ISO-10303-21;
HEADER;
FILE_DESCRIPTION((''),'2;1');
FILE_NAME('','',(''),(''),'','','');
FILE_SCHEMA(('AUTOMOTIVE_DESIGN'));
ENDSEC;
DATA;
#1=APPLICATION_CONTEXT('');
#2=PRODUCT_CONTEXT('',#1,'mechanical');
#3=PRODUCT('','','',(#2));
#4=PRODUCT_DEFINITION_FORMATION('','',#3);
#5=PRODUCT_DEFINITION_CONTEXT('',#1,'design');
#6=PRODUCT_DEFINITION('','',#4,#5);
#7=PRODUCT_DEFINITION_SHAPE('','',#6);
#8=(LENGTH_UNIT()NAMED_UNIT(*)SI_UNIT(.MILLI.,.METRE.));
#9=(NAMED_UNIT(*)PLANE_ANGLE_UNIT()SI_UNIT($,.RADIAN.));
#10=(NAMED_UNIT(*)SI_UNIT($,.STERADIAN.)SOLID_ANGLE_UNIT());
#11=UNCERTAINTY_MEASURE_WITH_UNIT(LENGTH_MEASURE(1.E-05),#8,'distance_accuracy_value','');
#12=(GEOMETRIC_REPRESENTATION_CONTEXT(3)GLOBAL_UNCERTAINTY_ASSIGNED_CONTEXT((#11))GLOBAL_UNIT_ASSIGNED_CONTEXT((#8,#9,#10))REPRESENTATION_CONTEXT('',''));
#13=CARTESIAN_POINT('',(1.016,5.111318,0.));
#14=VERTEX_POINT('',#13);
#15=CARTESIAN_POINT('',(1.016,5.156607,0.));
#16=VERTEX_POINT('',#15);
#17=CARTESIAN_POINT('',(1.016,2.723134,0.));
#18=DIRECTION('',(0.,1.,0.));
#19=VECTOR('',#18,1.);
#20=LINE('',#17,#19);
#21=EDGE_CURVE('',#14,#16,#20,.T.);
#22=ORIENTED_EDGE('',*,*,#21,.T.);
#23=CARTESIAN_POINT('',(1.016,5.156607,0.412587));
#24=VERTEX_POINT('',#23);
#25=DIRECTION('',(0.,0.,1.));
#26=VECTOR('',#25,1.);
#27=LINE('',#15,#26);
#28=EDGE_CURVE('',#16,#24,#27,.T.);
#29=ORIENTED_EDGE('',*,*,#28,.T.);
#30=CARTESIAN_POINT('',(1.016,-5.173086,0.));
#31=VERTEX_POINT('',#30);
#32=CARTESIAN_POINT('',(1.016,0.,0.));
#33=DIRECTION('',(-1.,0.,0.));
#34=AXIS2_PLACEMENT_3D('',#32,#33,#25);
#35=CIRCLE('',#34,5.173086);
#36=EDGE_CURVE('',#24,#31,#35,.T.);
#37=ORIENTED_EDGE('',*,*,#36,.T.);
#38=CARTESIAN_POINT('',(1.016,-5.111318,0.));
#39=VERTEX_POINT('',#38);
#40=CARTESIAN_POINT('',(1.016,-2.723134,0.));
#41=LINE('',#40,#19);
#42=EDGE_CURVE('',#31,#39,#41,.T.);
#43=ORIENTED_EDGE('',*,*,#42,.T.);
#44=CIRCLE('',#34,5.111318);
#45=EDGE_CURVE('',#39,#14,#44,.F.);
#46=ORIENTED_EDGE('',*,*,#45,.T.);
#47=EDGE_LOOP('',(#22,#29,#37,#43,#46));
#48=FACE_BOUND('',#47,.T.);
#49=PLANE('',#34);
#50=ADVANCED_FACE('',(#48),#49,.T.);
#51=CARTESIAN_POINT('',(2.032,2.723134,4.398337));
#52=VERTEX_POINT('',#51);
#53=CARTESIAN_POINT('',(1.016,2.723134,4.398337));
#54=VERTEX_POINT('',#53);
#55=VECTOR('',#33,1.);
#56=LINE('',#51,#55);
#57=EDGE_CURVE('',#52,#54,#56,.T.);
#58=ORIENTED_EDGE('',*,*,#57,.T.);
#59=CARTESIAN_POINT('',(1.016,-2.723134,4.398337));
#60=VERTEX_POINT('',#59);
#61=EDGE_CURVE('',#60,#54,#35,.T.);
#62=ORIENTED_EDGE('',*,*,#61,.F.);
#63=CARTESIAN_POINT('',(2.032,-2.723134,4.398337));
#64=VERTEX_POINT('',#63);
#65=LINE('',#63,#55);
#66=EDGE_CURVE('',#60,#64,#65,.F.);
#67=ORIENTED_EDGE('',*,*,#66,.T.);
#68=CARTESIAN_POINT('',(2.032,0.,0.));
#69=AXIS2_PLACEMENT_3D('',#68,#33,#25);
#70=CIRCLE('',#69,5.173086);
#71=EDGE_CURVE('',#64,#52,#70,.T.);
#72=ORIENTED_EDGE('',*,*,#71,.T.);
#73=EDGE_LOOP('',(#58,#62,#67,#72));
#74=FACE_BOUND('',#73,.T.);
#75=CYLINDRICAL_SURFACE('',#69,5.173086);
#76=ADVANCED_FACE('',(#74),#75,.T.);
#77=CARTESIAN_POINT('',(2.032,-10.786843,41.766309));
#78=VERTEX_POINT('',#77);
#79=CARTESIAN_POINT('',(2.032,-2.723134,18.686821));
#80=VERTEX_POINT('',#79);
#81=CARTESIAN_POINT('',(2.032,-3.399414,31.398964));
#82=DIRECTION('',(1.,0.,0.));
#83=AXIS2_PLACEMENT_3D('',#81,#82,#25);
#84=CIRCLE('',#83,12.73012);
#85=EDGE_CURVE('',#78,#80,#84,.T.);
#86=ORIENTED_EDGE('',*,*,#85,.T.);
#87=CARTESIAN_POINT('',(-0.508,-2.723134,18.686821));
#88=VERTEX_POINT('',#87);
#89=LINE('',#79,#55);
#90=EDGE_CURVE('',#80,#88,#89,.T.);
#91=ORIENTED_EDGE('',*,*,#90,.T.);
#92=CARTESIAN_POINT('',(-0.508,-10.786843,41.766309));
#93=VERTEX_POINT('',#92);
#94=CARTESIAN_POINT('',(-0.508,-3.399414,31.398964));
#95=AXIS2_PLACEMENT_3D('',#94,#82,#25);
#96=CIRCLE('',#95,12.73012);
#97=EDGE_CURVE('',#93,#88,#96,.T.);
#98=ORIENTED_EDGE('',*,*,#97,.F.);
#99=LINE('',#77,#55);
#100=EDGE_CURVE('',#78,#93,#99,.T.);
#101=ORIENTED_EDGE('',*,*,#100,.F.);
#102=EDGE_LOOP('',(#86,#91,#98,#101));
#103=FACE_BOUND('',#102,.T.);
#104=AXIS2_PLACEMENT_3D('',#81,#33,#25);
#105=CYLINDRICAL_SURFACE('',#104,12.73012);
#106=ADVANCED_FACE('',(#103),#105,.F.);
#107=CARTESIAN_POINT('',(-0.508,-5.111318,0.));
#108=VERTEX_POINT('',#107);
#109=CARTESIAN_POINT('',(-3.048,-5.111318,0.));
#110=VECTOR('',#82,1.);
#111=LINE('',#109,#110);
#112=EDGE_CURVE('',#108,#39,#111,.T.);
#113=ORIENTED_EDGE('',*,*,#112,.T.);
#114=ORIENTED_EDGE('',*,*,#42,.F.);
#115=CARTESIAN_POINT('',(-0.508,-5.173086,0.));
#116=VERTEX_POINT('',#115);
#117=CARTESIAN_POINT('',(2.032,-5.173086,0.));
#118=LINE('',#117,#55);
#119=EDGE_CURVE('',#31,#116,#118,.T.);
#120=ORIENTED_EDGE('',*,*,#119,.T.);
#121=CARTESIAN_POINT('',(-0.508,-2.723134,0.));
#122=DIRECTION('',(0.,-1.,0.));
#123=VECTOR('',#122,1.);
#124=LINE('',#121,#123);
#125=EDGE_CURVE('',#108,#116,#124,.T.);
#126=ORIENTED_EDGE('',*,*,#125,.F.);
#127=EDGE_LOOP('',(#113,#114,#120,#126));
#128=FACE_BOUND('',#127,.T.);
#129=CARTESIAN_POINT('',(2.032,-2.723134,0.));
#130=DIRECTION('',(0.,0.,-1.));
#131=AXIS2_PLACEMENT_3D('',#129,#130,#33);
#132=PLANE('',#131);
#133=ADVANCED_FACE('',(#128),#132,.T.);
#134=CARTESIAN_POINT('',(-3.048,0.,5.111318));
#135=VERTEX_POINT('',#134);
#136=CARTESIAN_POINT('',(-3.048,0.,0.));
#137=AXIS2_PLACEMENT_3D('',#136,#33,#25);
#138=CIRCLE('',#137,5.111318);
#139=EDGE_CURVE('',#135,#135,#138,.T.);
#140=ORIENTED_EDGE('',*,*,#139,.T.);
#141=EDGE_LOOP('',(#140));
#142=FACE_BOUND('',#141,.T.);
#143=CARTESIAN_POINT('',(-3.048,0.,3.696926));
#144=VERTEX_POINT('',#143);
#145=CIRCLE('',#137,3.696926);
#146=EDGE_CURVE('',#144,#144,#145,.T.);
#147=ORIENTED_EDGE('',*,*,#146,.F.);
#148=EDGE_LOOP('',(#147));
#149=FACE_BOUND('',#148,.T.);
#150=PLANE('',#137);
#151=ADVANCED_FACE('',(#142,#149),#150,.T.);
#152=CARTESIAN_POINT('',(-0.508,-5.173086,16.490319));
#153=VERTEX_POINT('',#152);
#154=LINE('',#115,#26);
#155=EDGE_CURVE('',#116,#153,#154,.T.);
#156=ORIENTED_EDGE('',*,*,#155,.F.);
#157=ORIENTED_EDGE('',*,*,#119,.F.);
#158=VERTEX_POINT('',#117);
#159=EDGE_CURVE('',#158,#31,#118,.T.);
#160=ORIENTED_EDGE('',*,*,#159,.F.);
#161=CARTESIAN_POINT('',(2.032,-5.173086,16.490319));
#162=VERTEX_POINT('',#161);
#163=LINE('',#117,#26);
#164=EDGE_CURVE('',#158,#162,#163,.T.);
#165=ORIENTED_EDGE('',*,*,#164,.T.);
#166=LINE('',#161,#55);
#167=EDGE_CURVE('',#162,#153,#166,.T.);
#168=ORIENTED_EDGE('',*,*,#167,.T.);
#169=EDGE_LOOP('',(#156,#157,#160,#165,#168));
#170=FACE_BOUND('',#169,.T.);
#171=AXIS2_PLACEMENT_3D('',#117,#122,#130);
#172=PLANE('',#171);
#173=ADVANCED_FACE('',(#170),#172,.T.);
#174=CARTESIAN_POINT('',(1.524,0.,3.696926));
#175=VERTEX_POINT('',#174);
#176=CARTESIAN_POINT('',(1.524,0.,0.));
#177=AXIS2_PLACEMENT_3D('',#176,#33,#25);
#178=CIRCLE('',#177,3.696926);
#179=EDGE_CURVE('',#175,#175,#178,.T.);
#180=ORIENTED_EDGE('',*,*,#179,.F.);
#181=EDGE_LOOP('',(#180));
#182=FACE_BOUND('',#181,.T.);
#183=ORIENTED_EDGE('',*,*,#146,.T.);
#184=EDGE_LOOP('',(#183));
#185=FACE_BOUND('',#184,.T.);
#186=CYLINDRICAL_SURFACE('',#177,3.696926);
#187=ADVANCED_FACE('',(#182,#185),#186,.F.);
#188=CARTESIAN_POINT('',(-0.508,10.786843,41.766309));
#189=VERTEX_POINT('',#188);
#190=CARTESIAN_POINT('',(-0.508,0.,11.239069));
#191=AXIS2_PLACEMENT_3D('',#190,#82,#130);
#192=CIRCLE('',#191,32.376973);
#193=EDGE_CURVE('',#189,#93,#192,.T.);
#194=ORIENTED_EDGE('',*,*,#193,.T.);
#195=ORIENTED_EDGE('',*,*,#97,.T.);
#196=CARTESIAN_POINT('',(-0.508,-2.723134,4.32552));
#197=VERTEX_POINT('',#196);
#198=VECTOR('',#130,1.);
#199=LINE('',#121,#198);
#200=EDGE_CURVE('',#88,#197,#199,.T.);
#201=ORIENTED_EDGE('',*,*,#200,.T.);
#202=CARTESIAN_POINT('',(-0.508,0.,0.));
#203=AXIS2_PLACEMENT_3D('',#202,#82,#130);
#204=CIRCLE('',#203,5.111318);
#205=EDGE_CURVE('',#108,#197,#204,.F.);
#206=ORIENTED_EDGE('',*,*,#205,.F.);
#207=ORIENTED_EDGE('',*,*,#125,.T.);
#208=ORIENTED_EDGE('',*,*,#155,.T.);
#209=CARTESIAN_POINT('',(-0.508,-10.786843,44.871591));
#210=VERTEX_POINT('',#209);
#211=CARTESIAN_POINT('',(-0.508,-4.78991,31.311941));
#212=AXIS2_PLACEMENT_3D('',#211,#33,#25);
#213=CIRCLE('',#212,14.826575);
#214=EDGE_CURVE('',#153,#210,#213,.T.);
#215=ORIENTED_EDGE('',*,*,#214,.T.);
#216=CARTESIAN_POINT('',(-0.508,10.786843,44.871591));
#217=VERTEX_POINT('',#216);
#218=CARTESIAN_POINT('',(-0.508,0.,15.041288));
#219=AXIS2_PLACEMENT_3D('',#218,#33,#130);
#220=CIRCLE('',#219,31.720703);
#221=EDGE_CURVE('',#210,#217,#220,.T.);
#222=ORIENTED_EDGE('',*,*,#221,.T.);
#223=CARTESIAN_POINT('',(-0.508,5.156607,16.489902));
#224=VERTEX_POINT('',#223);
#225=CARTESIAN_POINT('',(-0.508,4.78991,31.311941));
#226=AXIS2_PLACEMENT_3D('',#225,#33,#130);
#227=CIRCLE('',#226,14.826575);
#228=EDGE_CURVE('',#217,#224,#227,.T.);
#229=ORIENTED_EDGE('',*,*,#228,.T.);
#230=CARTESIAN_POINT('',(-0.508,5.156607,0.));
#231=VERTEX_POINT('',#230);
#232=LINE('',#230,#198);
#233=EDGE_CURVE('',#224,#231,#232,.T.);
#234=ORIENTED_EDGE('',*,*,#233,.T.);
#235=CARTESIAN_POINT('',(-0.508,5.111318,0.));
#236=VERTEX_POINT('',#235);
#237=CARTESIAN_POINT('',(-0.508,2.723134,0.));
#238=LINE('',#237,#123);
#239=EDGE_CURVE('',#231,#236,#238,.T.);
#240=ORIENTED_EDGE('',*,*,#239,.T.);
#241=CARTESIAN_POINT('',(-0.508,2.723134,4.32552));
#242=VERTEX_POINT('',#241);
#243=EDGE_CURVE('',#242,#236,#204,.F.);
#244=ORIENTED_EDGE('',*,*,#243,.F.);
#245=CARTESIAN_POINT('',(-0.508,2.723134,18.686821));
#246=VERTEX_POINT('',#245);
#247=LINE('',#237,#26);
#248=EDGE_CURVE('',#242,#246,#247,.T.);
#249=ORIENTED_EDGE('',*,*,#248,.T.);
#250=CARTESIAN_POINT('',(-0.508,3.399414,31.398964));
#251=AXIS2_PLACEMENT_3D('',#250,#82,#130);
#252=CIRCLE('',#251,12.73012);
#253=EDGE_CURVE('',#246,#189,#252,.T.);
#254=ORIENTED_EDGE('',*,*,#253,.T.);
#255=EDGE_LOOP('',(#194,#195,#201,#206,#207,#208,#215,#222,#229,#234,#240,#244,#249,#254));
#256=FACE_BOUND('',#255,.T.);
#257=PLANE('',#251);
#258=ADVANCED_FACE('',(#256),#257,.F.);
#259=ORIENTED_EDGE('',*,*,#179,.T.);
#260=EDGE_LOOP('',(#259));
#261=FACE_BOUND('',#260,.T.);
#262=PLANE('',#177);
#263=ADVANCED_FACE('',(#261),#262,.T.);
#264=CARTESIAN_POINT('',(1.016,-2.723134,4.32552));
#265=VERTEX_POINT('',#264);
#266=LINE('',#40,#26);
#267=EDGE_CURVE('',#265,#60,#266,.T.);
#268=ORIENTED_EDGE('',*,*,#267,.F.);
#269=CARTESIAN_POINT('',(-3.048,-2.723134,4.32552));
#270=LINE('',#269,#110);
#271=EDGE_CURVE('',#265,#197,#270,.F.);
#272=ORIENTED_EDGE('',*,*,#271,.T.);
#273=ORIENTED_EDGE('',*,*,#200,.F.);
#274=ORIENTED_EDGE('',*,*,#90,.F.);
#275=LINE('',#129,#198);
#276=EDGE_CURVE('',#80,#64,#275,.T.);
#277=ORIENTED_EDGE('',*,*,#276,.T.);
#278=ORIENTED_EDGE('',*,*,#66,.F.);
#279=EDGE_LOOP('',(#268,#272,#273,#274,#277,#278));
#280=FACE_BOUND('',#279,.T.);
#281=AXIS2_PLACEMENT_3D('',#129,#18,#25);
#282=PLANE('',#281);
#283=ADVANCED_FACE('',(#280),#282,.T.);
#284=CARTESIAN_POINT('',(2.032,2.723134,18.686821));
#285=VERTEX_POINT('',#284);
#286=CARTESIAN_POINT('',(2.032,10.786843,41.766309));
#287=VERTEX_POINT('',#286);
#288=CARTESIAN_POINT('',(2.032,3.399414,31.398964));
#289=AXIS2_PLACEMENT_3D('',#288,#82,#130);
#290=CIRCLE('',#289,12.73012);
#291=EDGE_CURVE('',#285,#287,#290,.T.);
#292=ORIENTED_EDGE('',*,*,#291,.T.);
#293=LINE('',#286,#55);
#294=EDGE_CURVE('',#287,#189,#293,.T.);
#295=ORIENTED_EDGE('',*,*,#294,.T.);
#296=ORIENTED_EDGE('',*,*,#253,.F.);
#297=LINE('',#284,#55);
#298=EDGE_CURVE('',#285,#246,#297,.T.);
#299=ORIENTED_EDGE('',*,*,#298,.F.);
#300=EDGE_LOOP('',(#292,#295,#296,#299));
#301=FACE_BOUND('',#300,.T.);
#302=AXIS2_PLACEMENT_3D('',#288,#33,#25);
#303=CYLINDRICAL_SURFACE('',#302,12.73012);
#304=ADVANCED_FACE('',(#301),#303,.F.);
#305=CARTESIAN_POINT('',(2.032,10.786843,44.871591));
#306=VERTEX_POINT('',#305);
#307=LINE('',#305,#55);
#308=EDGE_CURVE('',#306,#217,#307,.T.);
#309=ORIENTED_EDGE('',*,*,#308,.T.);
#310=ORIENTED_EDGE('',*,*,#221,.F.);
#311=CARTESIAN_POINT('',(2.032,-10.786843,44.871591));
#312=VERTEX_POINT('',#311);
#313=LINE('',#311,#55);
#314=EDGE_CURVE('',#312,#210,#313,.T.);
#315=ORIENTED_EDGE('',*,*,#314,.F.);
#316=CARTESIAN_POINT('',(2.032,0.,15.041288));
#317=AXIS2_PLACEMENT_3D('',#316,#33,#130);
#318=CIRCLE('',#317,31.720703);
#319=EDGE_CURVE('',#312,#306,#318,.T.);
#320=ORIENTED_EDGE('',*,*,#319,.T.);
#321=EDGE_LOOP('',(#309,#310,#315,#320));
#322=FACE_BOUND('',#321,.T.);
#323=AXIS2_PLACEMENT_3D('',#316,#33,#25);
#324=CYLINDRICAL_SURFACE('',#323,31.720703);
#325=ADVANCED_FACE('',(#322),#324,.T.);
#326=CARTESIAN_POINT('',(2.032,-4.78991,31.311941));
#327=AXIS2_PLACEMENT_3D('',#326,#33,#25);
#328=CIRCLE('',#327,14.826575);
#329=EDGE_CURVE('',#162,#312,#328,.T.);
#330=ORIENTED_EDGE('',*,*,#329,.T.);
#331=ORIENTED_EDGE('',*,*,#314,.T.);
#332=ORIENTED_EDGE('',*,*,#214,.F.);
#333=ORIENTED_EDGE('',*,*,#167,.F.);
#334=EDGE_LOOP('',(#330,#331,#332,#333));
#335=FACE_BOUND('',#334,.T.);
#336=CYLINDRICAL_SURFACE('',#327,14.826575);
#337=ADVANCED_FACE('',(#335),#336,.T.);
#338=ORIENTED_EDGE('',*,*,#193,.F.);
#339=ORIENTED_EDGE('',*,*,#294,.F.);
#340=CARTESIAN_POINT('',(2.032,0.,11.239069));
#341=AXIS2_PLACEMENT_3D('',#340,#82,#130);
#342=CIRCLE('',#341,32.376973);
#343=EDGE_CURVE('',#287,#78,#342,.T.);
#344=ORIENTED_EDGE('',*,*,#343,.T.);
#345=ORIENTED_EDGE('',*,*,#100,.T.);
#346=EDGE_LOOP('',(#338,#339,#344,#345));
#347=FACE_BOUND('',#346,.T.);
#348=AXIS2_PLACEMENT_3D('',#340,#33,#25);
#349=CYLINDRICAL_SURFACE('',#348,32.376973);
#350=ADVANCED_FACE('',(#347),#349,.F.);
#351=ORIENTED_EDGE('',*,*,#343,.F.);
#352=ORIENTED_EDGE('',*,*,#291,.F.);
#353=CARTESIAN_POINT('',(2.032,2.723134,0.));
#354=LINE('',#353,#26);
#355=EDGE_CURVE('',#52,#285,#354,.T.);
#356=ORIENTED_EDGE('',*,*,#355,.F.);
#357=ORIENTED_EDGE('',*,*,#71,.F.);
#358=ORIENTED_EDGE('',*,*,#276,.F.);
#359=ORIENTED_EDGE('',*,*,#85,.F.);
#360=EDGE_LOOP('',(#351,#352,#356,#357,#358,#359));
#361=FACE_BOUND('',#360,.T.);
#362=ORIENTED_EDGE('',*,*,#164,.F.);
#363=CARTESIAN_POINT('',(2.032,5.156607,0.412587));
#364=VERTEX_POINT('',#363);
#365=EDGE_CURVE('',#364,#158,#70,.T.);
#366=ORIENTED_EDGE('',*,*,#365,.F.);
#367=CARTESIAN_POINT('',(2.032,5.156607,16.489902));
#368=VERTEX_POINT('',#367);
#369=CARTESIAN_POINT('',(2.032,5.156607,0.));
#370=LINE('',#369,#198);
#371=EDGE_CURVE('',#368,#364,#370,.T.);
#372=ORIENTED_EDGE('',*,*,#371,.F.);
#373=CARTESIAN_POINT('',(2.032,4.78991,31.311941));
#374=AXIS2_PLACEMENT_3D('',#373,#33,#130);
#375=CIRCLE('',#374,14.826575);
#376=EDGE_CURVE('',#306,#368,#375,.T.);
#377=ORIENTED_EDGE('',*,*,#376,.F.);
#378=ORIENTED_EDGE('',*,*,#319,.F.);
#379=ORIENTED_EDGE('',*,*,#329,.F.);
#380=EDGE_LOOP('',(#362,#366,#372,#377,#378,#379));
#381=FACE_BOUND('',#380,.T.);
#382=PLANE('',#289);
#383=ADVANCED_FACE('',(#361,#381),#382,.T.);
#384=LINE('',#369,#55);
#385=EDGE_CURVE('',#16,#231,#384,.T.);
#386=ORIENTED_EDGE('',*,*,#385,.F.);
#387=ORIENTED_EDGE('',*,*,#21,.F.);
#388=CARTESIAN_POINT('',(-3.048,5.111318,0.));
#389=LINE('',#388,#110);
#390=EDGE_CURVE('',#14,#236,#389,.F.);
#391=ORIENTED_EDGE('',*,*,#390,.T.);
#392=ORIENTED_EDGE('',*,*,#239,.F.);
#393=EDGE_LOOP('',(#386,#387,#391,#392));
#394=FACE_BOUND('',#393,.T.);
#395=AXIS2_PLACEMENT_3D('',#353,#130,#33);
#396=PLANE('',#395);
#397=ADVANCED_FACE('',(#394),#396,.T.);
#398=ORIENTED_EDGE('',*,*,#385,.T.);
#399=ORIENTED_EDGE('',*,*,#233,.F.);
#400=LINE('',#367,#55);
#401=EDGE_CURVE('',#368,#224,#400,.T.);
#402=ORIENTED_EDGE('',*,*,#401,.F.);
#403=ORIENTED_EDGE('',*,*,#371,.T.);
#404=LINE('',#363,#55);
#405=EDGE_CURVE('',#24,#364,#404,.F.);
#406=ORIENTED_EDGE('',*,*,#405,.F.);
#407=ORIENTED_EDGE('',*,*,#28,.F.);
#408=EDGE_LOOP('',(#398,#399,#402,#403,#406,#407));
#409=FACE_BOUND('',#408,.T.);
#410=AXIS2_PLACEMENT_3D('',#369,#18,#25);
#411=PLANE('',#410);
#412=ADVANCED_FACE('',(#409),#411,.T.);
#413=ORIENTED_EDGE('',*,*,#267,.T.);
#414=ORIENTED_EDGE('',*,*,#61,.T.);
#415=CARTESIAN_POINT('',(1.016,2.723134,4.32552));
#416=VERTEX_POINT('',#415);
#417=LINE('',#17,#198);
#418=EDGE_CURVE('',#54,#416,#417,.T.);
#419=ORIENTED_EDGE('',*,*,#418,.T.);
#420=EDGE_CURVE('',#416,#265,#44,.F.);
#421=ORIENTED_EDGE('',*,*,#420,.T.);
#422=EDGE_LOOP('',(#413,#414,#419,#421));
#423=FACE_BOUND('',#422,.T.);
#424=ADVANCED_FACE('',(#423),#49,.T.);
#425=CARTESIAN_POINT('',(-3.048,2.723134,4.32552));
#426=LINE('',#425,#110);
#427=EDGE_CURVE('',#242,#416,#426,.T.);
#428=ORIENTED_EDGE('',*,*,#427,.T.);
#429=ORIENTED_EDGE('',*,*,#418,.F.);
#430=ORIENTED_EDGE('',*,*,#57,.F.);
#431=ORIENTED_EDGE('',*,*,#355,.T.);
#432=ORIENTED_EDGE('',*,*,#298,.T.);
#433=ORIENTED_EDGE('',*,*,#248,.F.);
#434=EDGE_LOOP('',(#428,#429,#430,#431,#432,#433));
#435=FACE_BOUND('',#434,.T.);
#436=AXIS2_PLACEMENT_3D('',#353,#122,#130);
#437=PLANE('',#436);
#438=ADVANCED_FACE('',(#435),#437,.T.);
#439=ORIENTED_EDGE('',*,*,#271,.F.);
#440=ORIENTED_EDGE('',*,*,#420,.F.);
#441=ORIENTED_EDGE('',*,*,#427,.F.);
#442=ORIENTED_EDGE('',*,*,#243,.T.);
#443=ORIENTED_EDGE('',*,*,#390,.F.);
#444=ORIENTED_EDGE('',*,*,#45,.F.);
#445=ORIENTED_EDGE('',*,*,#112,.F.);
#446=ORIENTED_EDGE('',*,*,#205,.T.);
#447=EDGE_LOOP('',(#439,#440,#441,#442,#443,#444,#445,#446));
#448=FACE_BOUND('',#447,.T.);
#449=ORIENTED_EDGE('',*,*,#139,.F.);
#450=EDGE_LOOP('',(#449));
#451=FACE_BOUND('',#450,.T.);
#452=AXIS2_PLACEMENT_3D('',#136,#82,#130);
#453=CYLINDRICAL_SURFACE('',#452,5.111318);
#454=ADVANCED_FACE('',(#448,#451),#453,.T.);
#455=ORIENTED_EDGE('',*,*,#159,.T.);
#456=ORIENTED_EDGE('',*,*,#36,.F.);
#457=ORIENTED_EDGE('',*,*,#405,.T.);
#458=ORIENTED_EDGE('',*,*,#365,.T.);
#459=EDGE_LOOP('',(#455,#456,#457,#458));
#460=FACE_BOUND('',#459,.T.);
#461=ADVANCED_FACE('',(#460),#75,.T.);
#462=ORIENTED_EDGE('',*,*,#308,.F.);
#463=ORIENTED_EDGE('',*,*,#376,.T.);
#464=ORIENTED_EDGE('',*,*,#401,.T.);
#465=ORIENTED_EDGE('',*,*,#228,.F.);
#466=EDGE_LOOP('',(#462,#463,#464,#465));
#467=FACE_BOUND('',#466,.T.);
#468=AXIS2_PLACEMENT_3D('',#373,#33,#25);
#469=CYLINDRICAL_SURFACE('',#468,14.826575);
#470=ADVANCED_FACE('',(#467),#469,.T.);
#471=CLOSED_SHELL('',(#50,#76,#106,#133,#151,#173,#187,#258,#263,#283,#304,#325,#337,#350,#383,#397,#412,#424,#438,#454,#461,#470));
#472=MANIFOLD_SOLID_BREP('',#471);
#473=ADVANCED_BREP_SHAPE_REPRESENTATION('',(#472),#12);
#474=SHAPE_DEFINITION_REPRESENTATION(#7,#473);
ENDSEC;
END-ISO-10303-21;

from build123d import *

# Parameters (mm, degrees)
BOSS_EXTRUDE6_DEPTH         = 1.524
BOSS_EXTRUDE6_DEPTH_BACK    = 3.048
SKETCH5_R                   = 0.127
BOSS_EXTRUDE6_2_DEPTH       = 1.524
BOSS_EXTRUDE6_2_DEPTH_BACK  = 3.048
BOSS_EXTRUDE6_3_DEPTH       = 1.524
BOSS_EXTRUDE6_3_DEPTH_BACK  = 3.048
BOSS_EXTRUDE6_4_DEPTH       = 1.524
BOSS_EXTRUDE6_4_DEPTH_BACK  = 3.048
BOSS_EXTRUDE6_5_DEPTH       = 1.524
BOSS_EXTRUDE6_5_DEPTH_BACK  = 3.048
BOSS_EXTRUDE6_6_DEPTH       = 1.524
BOSS_EXTRUDE6_6_DEPTH_BACK  = 3.048
BOSS_EXTRUDE6_7_DEPTH       = 1.524
BOSS_EXTRUDE6_7_DEPTH_BACK  = 3.048
BOSS_EXTRUDE6_8_DEPTH       = 1.524
BOSS_EXTRUDE6_8_DEPTH_BACK  = 3.048
BOSS_EXTRUDE6_9_DEPTH       = 1.524
BOSS_EXTRUDE6_9_DEPTH_BACK  = 3.048
BOSS_EXTRUDE6_10_DEPTH      = 1.524
BOSS_EXTRUDE6_10_DEPTH_BACK = 3.048
BOSS_EXTRUDE6_11_DEPTH      = 1.524
BOSS_EXTRUDE6_11_DEPTH_BACK = 3.048
BOSS_EXTRUDE6_12_DEPTH      = 1.524
BOSS_EXTRUDE6_12_DEPTH_BACK = 3.048
BOSS_EXTRUDE6_13_DEPTH      = 1.524
BOSS_EXTRUDE6_13_DEPTH_BACK = 3.048
BOSS_EXTRUDE6_14_DEPTH      = 1.524
BOSS_EXTRUDE6_14_DEPTH_BACK = 3.048
BOSS_EXTRUDE6_15_DEPTH      = 1.524
BOSS_EXTRUDE6_15_DEPTH_BACK = 3.048
BOSS_EXTRUDE6_16_DEPTH      = 1.524
BOSS_EXTRUDE6_16_DEPTH_BACK = 3.048
BOSS_EXTRUDE6_17_DEPTH      = 1.524
BOSS_EXTRUDE6_17_DEPTH_BACK = 3.048
BOSS_EXTRUDE6_18_DEPTH      = 1.524
BOSS_EXTRUDE6_18_DEPTH_BACK = 3.048
BOSS_EXTRUDE6_19_DEPTH      = 1.524
BOSS_EXTRUDE6_19_DEPTH_BACK = 3.048
BOSS_EXTRUDE6_20_DEPTH      = 1.524
BOSS_EXTRUDE6_20_DEPTH_BACK = 3.048
BOSS_EXTRUDE6_21_DEPTH      = 1.524
BOSS_EXTRUDE6_21_DEPTH_BACK = 3.048
BOSS_EXTRUDE6_22_DEPTH      = 1.524
BOSS_EXTRUDE6_22_DEPTH_BACK = 3.048
BOSS_EXTRUDE6_23_DEPTH      = 1.524
BOSS_EXTRUDE6_23_DEPTH_BACK = 3.048
BOSS_EXTRUDE6_24_DEPTH      = 1.524
BOSS_EXTRUDE6_24_DEPTH_BACK = 3.048
BOSS_EXTRUDE6_25_DEPTH      = 1.524
BOSS_EXTRUDE6_25_DEPTH_BACK = 3.048
BOSS_EXTRUDE6_26_DEPTH      = 1.524
BOSS_EXTRUDE6_26_DEPTH_BACK = 3.048
BOSS_EXTRUDE6_27_DEPTH      = 1.524
BOSS_EXTRUDE6_27_DEPTH_BACK = 3.048
BOSS_EXTRUDE6_28_DEPTH      = 1.524
BOSS_EXTRUDE6_28_DEPTH_BACK = 3.048
BOSS_EXTRUDE6_29_DEPTH      = 1.524
BOSS_EXTRUDE6_29_DEPTH_BACK = 3.048
BOSS_EXTRUDE6_30_DEPTH      = 1.524
BOSS_EXTRUDE6_30_DEPTH_BACK = 3.048
BOSS_EXTRUDE6_31_DEPTH      = 1.524
BOSS_EXTRUDE6_31_DEPTH_BACK = 3.048
BOSS_EXTRUDE6_32_DEPTH      = 1.524
BOSS_EXTRUDE6_32_DEPTH_BACK = 3.048
BOSS_EXTRUDE6_33_DEPTH      = 1.524
BOSS_EXTRUDE6_33_DEPTH_BACK = 3.048
BOSS_EXTRUDE6_34_DEPTH      = 1.524
BOSS_EXTRUDE6_34_DEPTH_BACK = 3.048
BOSS_EXTRUDE6_35_DEPTH      = 1.524
BOSS_EXTRUDE6_35_DEPTH_BACK = 3.048
SKETCH10_R                  = 0.7239
BOSS_EXTRUDE13_DEPTH        = 4.572
BOSS_EXTRUDE9_DEPTH         = 1.524
BOSS_EXTRUDE9_DEPTH_BACK    = 1.016
SKETCH9_R                   = 5.173086185
BOSS_EXTRUDE10_DEPTH        = 1.016
SKETCH12_R                  = 5.111318418
SKETCH12_R_2                = 2.242435501
BOSS_EXTRUDE15_DEPTH        = 4.064
SKETCH13_R                  = 3.696925513
CUT_EXTRUDE1_DEPTH          = 4.572


with BuildPart() as part:
    # Sketch5 → Boss-Extrude6 (new, two sides: drawn at the far end of the back side and taken through both)
    with BuildSketch(Plane(origin=(0, 0, 0), x_dir=(0, 0, -1), z_dir=(1, 0, 0)).offset(-BOSS_EXTRUDE6_DEPTH_BACK)):
        with Locations((0.334697735, 2.224969992)):
            Circle(SKETCH5_R)
    extrude(amount=BOSS_EXTRUDE6_DEPTH + BOSS_EXTRUDE6_DEPTH_BACK)


with BuildPart() as body_2:
    # Sketch5 → Boss-Extrude6 2 (new, two sides: drawn at the far end of the back side and taken through both)
    with BuildSketch(Plane(origin=(0, 0, 0), x_dir=(0, 0, -1), z_dir=(1, 0, 0)).offset(-BOSS_EXTRUDE6_2_DEPTH_BACK)):
        with Locations((0.726602738, 2.129451221)):
            Circle(SKETCH5_R)
    extrude(amount=BOSS_EXTRUDE6_2_DEPTH + BOSS_EXTRUDE6_2_DEPTH_BACK)


with BuildPart() as body_3:
    # Sketch5 → Boss-Extrude6 3 (new, two sides: drawn at the far end of the back side and taken through both)
    with BuildSketch(Plane(origin=(0, 0, 0), x_dir=(0, 0, -1), z_dir=(1, 0, 0)).offset(-BOSS_EXTRUDE6_3_DEPTH_BACK)):
        with Locations((1.09515413, 1.965490135)):
            Circle(SKETCH5_R)
    extrude(amount=BOSS_EXTRUDE6_3_DEPTH + BOSS_EXTRUDE6_3_DEPTH_BACK)


with BuildPart() as body_4:
    # Sketch5 → Boss-Extrude6 4 (new, two sides: drawn at the far end of the back side and taken through both)
    with BuildSketch(Plane(origin=(0, 0, 0), x_dir=(0, 0, -1), z_dir=(1, 0, 0)).offset(-BOSS_EXTRUDE6_4_DEPTH_BACK)):
        with Locations((1.428506368, 1.738356579)):
            Circle(SKETCH5_R)
    extrude(amount=BOSS_EXTRUDE6_4_DEPTH + BOSS_EXTRUDE6_4_DEPTH_BACK)


with BuildPart() as body_5:
    # Sketch5 → Boss-Extrude6 5 (new, two sides: drawn at the far end of the back side and taken through both)
    with BuildSketch(Plane(origin=(0, 0, 0), x_dir=(0, 0, -1), z_dir=(1, 0, 0)).offset(-BOSS_EXTRUDE6_5_DEPTH_BACK)):
        with Locations((1.715945236, 1.455350812)):
            Circle(SKETCH5_R)
    extrude(amount=BOSS_EXTRUDE6_5_DEPTH + BOSS_EXTRUDE6_5_DEPTH_BACK)


with BuildPart() as body_6:
    # Sketch5 → Boss-Extrude6 6 (new, two sides: drawn at the far end of the back side and taken through both)
    with BuildSketch(Plane(origin=(0, 0, 0), x_dir=(0, 0, -1), z_dir=(1, 0, 0)).offset(-BOSS_EXTRUDE6_6_DEPTH_BACK)):
        with Locations((1.948232212, 1.125568873)):
            Circle(SKETCH5_R)
    extrude(amount=BOSS_EXTRUDE6_6_DEPTH + BOSS_EXTRUDE6_6_DEPTH_BACK)


with BuildPart() as body_7:
    # Sketch5 → Boss-Extrude6 7 (new, two sides: drawn at the far end of the back side and taken through both)
    with BuildSketch(Plane(origin=(0, 0, 0), x_dir=(0, 0, -1), z_dir=(1, 0, 0)).offset(-BOSS_EXTRUDE6_7_DEPTH_BACK)):
        with Locations((2.117901402, 0.759610224)):
            Circle(SKETCH5_R)
    extrude(amount=BOSS_EXTRUDE6_7_DEPTH + BOSS_EXTRUDE6_7_DEPTH_BACK)


with BuildPart() as body_8:
    # Sketch5 → Boss-Extrude6 8 (new, two sides: drawn at the far end of the back side and taken through both)
    with BuildSketch(Plane(origin=(0, 0, 0), x_dir=(0, 0, -1), z_dir=(1, 0, 0)).offset(-BOSS_EXTRUDE6_8_DEPTH_BACK)):
        with Locations((2.219499498, 0.369237078)):
            Circle(SKETCH5_R)
    extrude(amount=BOSS_EXTRUDE6_8_DEPTH + BOSS_EXTRUDE6_8_DEPTH_BACK)


with BuildPart() as body_9:
    # Sketch5 → Boss-Extrude6 9 (new, two sides: drawn at the far end of the back side and taken through both)
    with BuildSketch(Plane(origin=(0, 0, 0), x_dir=(0, 0, -1), z_dir=(1, 0, 0)).offset(-BOSS_EXTRUDE6_9_DEPTH_BACK)):
        with Locations((2.249761054, -0.033003652)):
            Circle(SKETCH5_R)
    extrude(amount=BOSS_EXTRUDE6_9_DEPTH + BOSS_EXTRUDE6_9_DEPTH_BACK)


with BuildPart() as body_10:
    # Sketch5 → Boss-Extrude6 10 (new, two sides: drawn at the far end of the back side and taken through both)
    with BuildSketch(Plane(origin=(0, 0, 0), x_dir=(0, 0, -1), z_dir=(1, 0, 0)).offset(-BOSS_EXTRUDE6_10_DEPTH_BACK)):
        with Locations((2.207713438, -0.434183618)):
            Circle(SKETCH5_R)
    extrude(amount=BOSS_EXTRUDE6_10_DEPTH + BOSS_EXTRUDE6_10_DEPTH_BACK)


with BuildPart() as body_11:
    # Sketch5 → Boss-Extrude6 11 (new, two sides: drawn at the far end of the back side and taken through both)
    with BuildSketch(Plane(origin=(0, 0, 0), x_dir=(0, 0, -1), z_dir=(1, 0, 0)).offset(-BOSS_EXTRUDE6_11_DEPTH_BACK)):
        with Locations((2.094708097, -0.821408565)):
            Circle(SKETCH5_R)
    extrude(amount=BOSS_EXTRUDE6_11_DEPTH + BOSS_EXTRUDE6_11_DEPTH_BACK)


with BuildPart() as body_12:
    # Sketch5 → Boss-Extrude6 12 (new, two sides: drawn at the far end of the back side and taken through both)
    with BuildSketch(Plane(origin=(0, 0, 0), x_dir=(0, 0, -1), z_dir=(1, 0, 0)).offset(-BOSS_EXTRUDE6_12_DEPTH_BACK)):
        with Locations((1.914377113, -1.182232764)):
            Circle(SKETCH5_R)
    extrude(amount=BOSS_EXTRUDE6_12_DEPTH + BOSS_EXTRUDE6_12_DEPTH_BACK)


with BuildPart() as body_13:
    # Sketch5 → Boss-Extrude6 13 (new, two sides: drawn at the far end of the back side and taken through both)
    with BuildSketch(Plane(origin=(0, 0, 0), x_dir=(0, 0, -1), z_dir=(1, 0, 0)).offset(-BOSS_EXTRUDE6_13_DEPTH_BACK)):
        with Locations((1.672516474, -1.50505903)):
            Circle(SKETCH5_R)
    extrude(amount=BOSS_EXTRUDE6_13_DEPTH + BOSS_EXTRUDE6_13_DEPTH_BACK)


with BuildPart() as body_14:
    # Sketch5 → Boss-Extrude6 14 (new, two sides: drawn at the far end of the back side and taken through both)
    with BuildSketch(Plane(origin=(0, 0, 0), x_dir=(0, 0, -1), z_dir=(1, 0, 0)).offset(-BOSS_EXTRUDE6_14_DEPTH_BACK)):
        with Locations((1.376899779, -1.779511461)):
            Circle(SKETCH5_R)
    extrude(amount=BOSS_EXTRUDE6_14_DEPTH + BOSS_EXTRUDE6_14_DEPTH_BACK)


with BuildPart() as body_15:
    # Sketch5 → Boss-Extrude6 15 (new, two sides: drawn at the far end of the back side and taken through both)
    with BuildSketch(Plane(origin=(0, 0, 0), x_dir=(0, 0, -1), z_dir=(1, 0, 0)).offset(-BOSS_EXTRUDE6_15_DEPTH_BACK)):
        with Locations((1.037028393, -1.996768928)):
            Circle(SKETCH5_R)
    extrude(amount=BOSS_EXTRUDE6_15_DEPTH + BOSS_EXTRUDE6_15_DEPTH_BACK)


with BuildPart() as body_16:
    # Sketch5 → Boss-Extrude6 16 (new, two sides: drawn at the far end of the back side and taken through both)
    with BuildSketch(Plane(origin=(0, 0, 0), x_dir=(0, 0, -1), z_dir=(1, 0, 0)).offset(-BOSS_EXTRUDE6_16_DEPTH_BACK)):
        with Locations((0.66382606, -2.1498486)):
            Circle(SKETCH5_R)
    extrude(amount=BOSS_EXTRUDE6_16_DEPTH + BOSS_EXTRUDE6_16_DEPTH_BACK)


with BuildPart() as body_17:
    # Sketch5 → Boss-Extrude6 17 (new, two sides: drawn at the far end of the back side and taken through both)
    with BuildSketch(Plane(origin=(0, 0, 0), x_dir=(0, 0, -1), z_dir=(1, 0, 0)).offset(-BOSS_EXTRUDE6_17_DEPTH_BACK)):
        with Locations((0.269287812, -2.233830368)):
            Circle(SKETCH5_R)
    extrude(amount=BOSS_EXTRUDE6_17_DEPTH + BOSS_EXTRUDE6_17_DEPTH_BACK)


with BuildPart() as body_18:
    # Sketch5 → Boss-Extrude6 18 (new, two sides: drawn at the far end of the back side and taken through both)
    with BuildSketch(Plane(origin=(0, 0, 0), x_dir=(0, 0, -1), z_dir=(1, 0, 0)).offset(-BOSS_EXTRUDE6_18_DEPTH_BACK)):
        with Locations((-0.133905568, -2.246014991)):
            Circle(SKETCH5_R)
    extrude(amount=BOSS_EXTRUDE6_18_DEPTH + BOSS_EXTRUDE6_18_DEPTH_BACK)


with BuildPart() as body_19:
    # Sketch5 → Boss-Extrude6 19 (new, two sides: drawn at the far end of the back side and taken through both)
    with BuildSketch(Plane(origin=(0, 0, 0), x_dir=(0, 0, -1), z_dir=(1, 0, 0)).offset(-BOSS_EXTRUDE6_19_DEPTH_BACK)):
        with Locations((-0.532795113, -2.186010843)):
            Circle(SKETCH5_R)
    extrude(amount=BOSS_EXTRUDE6_19_DEPTH + BOSS_EXTRUDE6_19_DEPTH_BACK)


with BuildPart() as body_20:
    # Sketch5 → Boss-Extrude6 20 (new, two sides: drawn at the far end of the back side and taken through both)
    with BuildSketch(Plane(origin=(0, 0, 0), x_dir=(0, 0, -1), z_dir=(1, 0, 0)).offset(-BOSS_EXTRUDE6_20_DEPTH_BACK)):
        with Locations((-0.914560184, -2.055746509)):
            Circle(SKETCH5_R)
    extrude(amount=BOSS_EXTRUDE6_20_DEPTH + BOSS_EXTRUDE6_20_DEPTH_BACK)


with BuildPart() as body_21:
    # Sketch5 → Boss-Extrude6 21 (new, two sides: drawn at the far end of the back side and taken through both)
    with BuildSketch(Plane(origin=(0, 0, 0), x_dir=(0, 0, -1), z_dir=(1, 0, 0)).offset(-BOSS_EXTRUDE6_21_DEPTH_BACK)):
        with Locations((-1.266930539, -1.85940879)):
            Circle(SKETCH5_R)
    extrude(amount=BOSS_EXTRUDE6_21_DEPTH + BOSS_EXTRUDE6_21_DEPTH_BACK)


with BuildPart() as body_22:
    # Sketch5 → Boss-Extrude6 22 (new, two sides: drawn at the far end of the back side and taken through both)
    with BuildSketch(Plane(origin=(0, 0, 0), x_dir=(0, 0, -1), z_dir=(1, 0, 0)).offset(-BOSS_EXTRUDE6_22_DEPTH_BACK)):
        with Locations((-1.578580704, -1.603308143)):
            Circle(SKETCH5_R)
    extrude(amount=BOSS_EXTRUDE6_22_DEPTH + BOSS_EXTRUDE6_22_DEPTH_BACK)


with BuildPart() as body_23:
    # Sketch5 → Boss-Extrude6 23 (new, two sides: drawn at the far end of the back side and taken through both)
    with BuildSketch(Plane(origin=(0, 0, 0), x_dir=(0, 0, -1), z_dir=(1, 0, 0)).offset(-BOSS_EXTRUDE6_23_DEPTH_BACK)):
        with Locations((-1.839493986, -1.295675853)):
            Circle(SKETCH5_R)
    extrude(amount=BOSS_EXTRUDE6_23_DEPTH + BOSS_EXTRUDE6_23_DEPTH_BACK)


with BuildPart() as body_24:
    # Sketch5 → Boss-Extrude6 24 (new, two sides: drawn at the far end of the back side and taken through both)
    with BuildSketch(Plane(origin=(0, 0, 0), x_dir=(0, 0, -1), z_dir=(1, 0, 0)).offset(-BOSS_EXTRUDE6_24_DEPTH_BACK)):
        with Locations((-2.041284418, -0.946399475)):
            Circle(SKETCH5_R)
    extrude(amount=BOSS_EXTRUDE6_24_DEPTH + BOSS_EXTRUDE6_24_DEPTH_BACK)


with BuildPart() as body_25:
    # Sketch5 → Boss-Extrude6 25 (new, two sides: drawn at the far end of the back side and taken through both)
    with BuildSketch(Plane(origin=(0, 0, 0), x_dir=(0, 0, -1), z_dir=(1, 0, 0)).offset(-BOSS_EXTRUDE6_25_DEPTH_BACK)):
        with Locations((-2.177466289, -0.566705039)):
            Circle(SKETCH5_R)
    extrude(amount=BOSS_EXTRUDE6_25_DEPTH + BOSS_EXTRUDE6_25_DEPTH_BACK)


with BuildPart() as body_26:
    # Sketch5 → Boss-Extrude6 26 (new, two sides: drawn at the far end of the back side and taken through both)
    with BuildSketch(Plane(origin=(0, 0, 0), x_dir=(0, 0, -1), z_dir=(1, 0, 0)).offset(-BOSS_EXTRUDE6_26_DEPTH_BACK)):
        with Locations((-2.243662602, -0.168796237)):
            Circle(SKETCH5_R)
    extrude(amount=BOSS_EXTRUDE6_26_DEPTH + BOSS_EXTRUDE6_26_DEPTH_BACK)


with BuildPart() as body_27:
    # Sketch5 → Boss-Extrude6 27 (new, two sides: drawn at the far end of the back side and taken through both)
    with BuildSketch(Plane(origin=(0, 0, 0), x_dir=(0, 0, -1), z_dir=(1, 0, 0)).offset(-BOSS_EXTRUDE6_27_DEPTH_BACK)):
        with Locations((-2.237745753, 0.234537815)):
            Circle(SKETCH5_R)
    extrude(amount=BOSS_EXTRUDE6_27_DEPTH + BOSS_EXTRUDE6_27_DEPTH_BACK)


with BuildPart() as body_28:
    # Sketch5 → Boss-Extrude6 28 (new, two sides: drawn at the far end of the back side and taken through both)
    with BuildSketch(Plane(origin=(0, 0, 0), x_dir=(0, 0, -1), z_dir=(1, 0, 0)).offset(-BOSS_EXTRUDE6_28_DEPTH_BACK)):
        with Locations((-2.159905914, 0.630333629)):
            Circle(SKETCH5_R)
    extrude(amount=BOSS_EXTRUDE6_28_DEPTH + BOSS_EXTRUDE6_28_DEPTH_BACK)


with BuildPart() as body_29:
    # Sketch5 → Boss-Extrude6 29 (new, two sides: drawn at the far end of the back side and taken through both)
    with BuildSketch(Plane(origin=(0, 0, 0), x_dir=(0, 0, -1), z_dir=(1, 0, 0)).offset(-BOSS_EXTRUDE6_29_DEPTH_BACK)):
        with Locations((-2.012644922, 1.005870001)):
            Circle(SKETCH5_R)
    extrude(amount=BOSS_EXTRUDE6_29_DEPTH + BOSS_EXTRUDE6_29_DEPTH_BACK)


with BuildPart() as body_30:
    # Sketch5 → Boss-Extrude6 30 (new, two sides: drawn at the far end of the back side and taken through both)
    with BuildSketch(Plane(origin=(0, 0, 0), x_dir=(0, 0, -1), z_dir=(1, 0, 0)).offset(-BOSS_EXTRUDE6_30_DEPTH_BACK)):
        with Locations((-1.800695866, 1.349076884)):
            Circle(SKETCH5_R)
    extrude(amount=BOSS_EXTRUDE6_30_DEPTH + BOSS_EXTRUDE6_30_DEPTH_BACK)


with BuildPart() as body_31:
    # Sketch5 → Boss-Extrude6 31 (new, two sides: drawn at the far end of the back side and taken through both)
    with BuildSketch(Plane(origin=(0, 0, 0), x_dir=(0, 0, -1), z_dir=(1, 0, 0)).offset(-BOSS_EXTRUDE6_31_DEPTH_BACK)):
        with Locations((-1.530870963, 1.648923326)):
            Circle(SKETCH5_R)
    extrude(amount=BOSS_EXTRUDE6_31_DEPTH + BOSS_EXTRUDE6_31_DEPTH_BACK)


with BuildPart() as body_32:
    # Sketch5 → Boss-Extrude6 32 (new, two sides: drawn at the far end of the back side and taken through both)
    with BuildSketch(Plane(origin=(0, 0, 0), x_dir=(0, 0, -1), z_dir=(1, 0, 0)).offset(-BOSS_EXTRUDE6_32_DEPTH_BACK)):
        with Locations((-1.211842608, 1.895772015)):
            Circle(SKETCH5_R)
    extrude(amount=BOSS_EXTRUDE6_32_DEPTH + BOSS_EXTRUDE6_32_DEPTH_BACK)


with BuildPart() as body_33:
    # Sketch5 → Boss-Extrude6 33 (new, two sides: drawn at the far end of the back side and taken through both)
    with BuildSketch(Plane(origin=(0, 0, 0), x_dir=(0, 0, -1), z_dir=(1, 0, 0)).offset(-BOSS_EXTRUDE6_33_DEPTH_BACK)):
        with Locations((-0.853864634, 2.081689032)):
            Circle(SKETCH5_R)
    extrude(amount=BOSS_EXTRUDE6_33_DEPTH + BOSS_EXTRUDE6_33_DEPTH_BACK)


with BuildPart() as body_34:
    # Sketch5 → Boss-Extrude6 34 (new, two sides: drawn at the far end of the back side and taken through both)
    with BuildSketch(Plane(origin=(0, 0, 0), x_dir=(0, 0, -1), z_dir=(1, 0, 0)).offset(-BOSS_EXTRUDE6_34_DEPTH_BACK)):
        with Locations((-0.468442749, 2.200698851)):
            Circle(SKETCH5_R)
    extrude(amount=BOSS_EXTRUDE6_34_DEPTH + BOSS_EXTRUDE6_34_DEPTH_BACK)


with BuildPart() as body_35:
    # Sketch5 → Boss-Extrude6 35 (new, two sides: drawn at the far end of the back side and taken through both)
    with BuildSketch(Plane(origin=(0, 0, 0), x_dir=(0, 0, -1), z_dir=(1, 0, 0)).offset(-BOSS_EXTRUDE6_35_DEPTH_BACK)):
        with Locations((-0.067964728, 2.248976397)):
            Circle(SKETCH5_R)
    extrude(amount=BOSS_EXTRUDE6_35_DEPTH + BOSS_EXTRUDE6_35_DEPTH_BACK)


with BuildPart() as body_36:
    # Sketch10 → Boss-Extrude13 (new body)
    with BuildSketch(Plane.ZY.offset(3.048)):
        Circle(SKETCH10_R)
    extrude(amount=-BOSS_EXTRUDE13_DEPTH)


with BuildPart() as body_37:
    # Sketch8 → Boss-Extrude9 (new, two sides: drawn at the far end of the back side and taken through both)
    with BuildSketch(Plane.ZY.offset(-1.016).offset(-BOSS_EXTRUDE9_DEPTH_BACK)):
        with BuildLine():
            Line((0, 2.72313354), (0, 5.15660667))
            Line((0, 5.15660667), (16.489901694, 5.15660667))
            ThreePointArc((16.489901694, 5.15660667), (28.426928424, 19.333087357), (44.871590883, 10.786843244))
            ThreePointArc((44.871590883, 10.786843244), (46.761990325, 0), (44.871590883, -10.786843244))
            ThreePointArc((44.871590883, -10.786843244), (28.435013717, -19.334688947), (16.490318564, -5.173086185))
            Line((16.490318564, -5.173086185), (0, -5.173086185))
            Line((0, -5.173086185), (0, -2.72313354))
            Line((0, -2.72313354), (18.686821052, -2.72313354))
            ThreePointArc((18.686821052, -2.72313354), (27.200110639, -15.417133446), (41.766309383, -10.786843244))
            ThreePointArc((41.766309383, -10.786843244), (43.616042203, 0), (41.766309383, 10.786843244))
            ThreePointArc((41.766309383, 10.786843244), (27.200110639, 15.417133446), (18.686821052, 2.72313354))
            Line((18.686821052, 2.72313354), (0, 2.72313354))
        make_face()
    extrude(amount=BOSS_EXTRUDE9_DEPTH + BOSS_EXTRUDE9_DEPTH_BACK)

    # Sketch9 → Boss-Extrude10 (add)
    with BuildSketch(Plane.ZY.offset(-1.016)):
        Circle(SKETCH9_R)
    extrude(amount=-BOSS_EXTRUDE10_DEPTH)


    add(part.part)  # Boss-Extrude15 merges part

    add(body_2.part)  # Boss-Extrude15 merges body 2

    add(body_3.part)  # Boss-Extrude15 merges body 3

    add(body_4.part)  # Boss-Extrude15 merges body 4

    add(body_5.part)  # Boss-Extrude15 merges body 5

    add(body_6.part)  # Boss-Extrude15 merges body 6

    add(body_7.part)  # Boss-Extrude15 merges body 7

    add(body_8.part)  # Boss-Extrude15 merges body 8

    add(body_9.part)  # Boss-Extrude15 merges body 9

    add(body_10.part)  # Boss-Extrude15 merges body 10

    add(body_11.part)  # Boss-Extrude15 merges body 11

    add(body_12.part)  # Boss-Extrude15 merges body 12

    add(body_13.part)  # Boss-Extrude15 merges body 13

    add(body_14.part)  # Boss-Extrude15 merges body 14

    add(body_15.part)  # Boss-Extrude15 merges body 15

    add(body_16.part)  # Boss-Extrude15 merges body 16

    add(body_17.part)  # Boss-Extrude15 merges body 17

    add(body_18.part)  # Boss-Extrude15 merges body 18

    add(body_19.part)  # Boss-Extrude15 merges body 19

    add(body_20.part)  # Boss-Extrude15 merges body 20

    add(body_21.part)  # Boss-Extrude15 merges body 21

    add(body_22.part)  # Boss-Extrude15 merges body 22

    add(body_23.part)  # Boss-Extrude15 merges body 23

    add(body_24.part)  # Boss-Extrude15 merges body 24

    add(body_25.part)  # Boss-Extrude15 merges body 25

    add(body_26.part)  # Boss-Extrude15 merges body 26

    add(body_27.part)  # Boss-Extrude15 merges body 27

    add(body_28.part)  # Boss-Extrude15 merges body 28

    add(body_29.part)  # Boss-Extrude15 merges body 29

    add(body_30.part)  # Boss-Extrude15 merges body 30

    add(body_31.part)  # Boss-Extrude15 merges body 31

    add(body_32.part)  # Boss-Extrude15 merges body 32

    add(body_33.part)  # Boss-Extrude15 merges body 33

    add(body_34.part)  # Boss-Extrude15 merges body 34

    add(body_35.part)  # Boss-Extrude15 merges body 35

    add(body_36.part)  # Boss-Extrude15 merges body 36
    # Sketch12 → Boss-Extrude15 (add)
    with BuildSketch(Plane.ZY.offset(-1.016)):
        with Locations(Location((0, 0, 0), (0, 0, 270))):
            Circle(SKETCH12_R)
        Circle(SKETCH12_R_2, mode=Mode.SUBTRACT)
    extrude(amount=BOSS_EXTRUDE15_DEPTH)

    # Sketch13 → Cut-Extrude1 (cut)
    with BuildSketch(Plane.ZY.offset(3.048)):
        Circle(SKETCH13_R)
    extrude(amount=-CUT_EXTRUDE1_DEPTH, mode=Mode.SUBTRACT)


solid = body_37.part
